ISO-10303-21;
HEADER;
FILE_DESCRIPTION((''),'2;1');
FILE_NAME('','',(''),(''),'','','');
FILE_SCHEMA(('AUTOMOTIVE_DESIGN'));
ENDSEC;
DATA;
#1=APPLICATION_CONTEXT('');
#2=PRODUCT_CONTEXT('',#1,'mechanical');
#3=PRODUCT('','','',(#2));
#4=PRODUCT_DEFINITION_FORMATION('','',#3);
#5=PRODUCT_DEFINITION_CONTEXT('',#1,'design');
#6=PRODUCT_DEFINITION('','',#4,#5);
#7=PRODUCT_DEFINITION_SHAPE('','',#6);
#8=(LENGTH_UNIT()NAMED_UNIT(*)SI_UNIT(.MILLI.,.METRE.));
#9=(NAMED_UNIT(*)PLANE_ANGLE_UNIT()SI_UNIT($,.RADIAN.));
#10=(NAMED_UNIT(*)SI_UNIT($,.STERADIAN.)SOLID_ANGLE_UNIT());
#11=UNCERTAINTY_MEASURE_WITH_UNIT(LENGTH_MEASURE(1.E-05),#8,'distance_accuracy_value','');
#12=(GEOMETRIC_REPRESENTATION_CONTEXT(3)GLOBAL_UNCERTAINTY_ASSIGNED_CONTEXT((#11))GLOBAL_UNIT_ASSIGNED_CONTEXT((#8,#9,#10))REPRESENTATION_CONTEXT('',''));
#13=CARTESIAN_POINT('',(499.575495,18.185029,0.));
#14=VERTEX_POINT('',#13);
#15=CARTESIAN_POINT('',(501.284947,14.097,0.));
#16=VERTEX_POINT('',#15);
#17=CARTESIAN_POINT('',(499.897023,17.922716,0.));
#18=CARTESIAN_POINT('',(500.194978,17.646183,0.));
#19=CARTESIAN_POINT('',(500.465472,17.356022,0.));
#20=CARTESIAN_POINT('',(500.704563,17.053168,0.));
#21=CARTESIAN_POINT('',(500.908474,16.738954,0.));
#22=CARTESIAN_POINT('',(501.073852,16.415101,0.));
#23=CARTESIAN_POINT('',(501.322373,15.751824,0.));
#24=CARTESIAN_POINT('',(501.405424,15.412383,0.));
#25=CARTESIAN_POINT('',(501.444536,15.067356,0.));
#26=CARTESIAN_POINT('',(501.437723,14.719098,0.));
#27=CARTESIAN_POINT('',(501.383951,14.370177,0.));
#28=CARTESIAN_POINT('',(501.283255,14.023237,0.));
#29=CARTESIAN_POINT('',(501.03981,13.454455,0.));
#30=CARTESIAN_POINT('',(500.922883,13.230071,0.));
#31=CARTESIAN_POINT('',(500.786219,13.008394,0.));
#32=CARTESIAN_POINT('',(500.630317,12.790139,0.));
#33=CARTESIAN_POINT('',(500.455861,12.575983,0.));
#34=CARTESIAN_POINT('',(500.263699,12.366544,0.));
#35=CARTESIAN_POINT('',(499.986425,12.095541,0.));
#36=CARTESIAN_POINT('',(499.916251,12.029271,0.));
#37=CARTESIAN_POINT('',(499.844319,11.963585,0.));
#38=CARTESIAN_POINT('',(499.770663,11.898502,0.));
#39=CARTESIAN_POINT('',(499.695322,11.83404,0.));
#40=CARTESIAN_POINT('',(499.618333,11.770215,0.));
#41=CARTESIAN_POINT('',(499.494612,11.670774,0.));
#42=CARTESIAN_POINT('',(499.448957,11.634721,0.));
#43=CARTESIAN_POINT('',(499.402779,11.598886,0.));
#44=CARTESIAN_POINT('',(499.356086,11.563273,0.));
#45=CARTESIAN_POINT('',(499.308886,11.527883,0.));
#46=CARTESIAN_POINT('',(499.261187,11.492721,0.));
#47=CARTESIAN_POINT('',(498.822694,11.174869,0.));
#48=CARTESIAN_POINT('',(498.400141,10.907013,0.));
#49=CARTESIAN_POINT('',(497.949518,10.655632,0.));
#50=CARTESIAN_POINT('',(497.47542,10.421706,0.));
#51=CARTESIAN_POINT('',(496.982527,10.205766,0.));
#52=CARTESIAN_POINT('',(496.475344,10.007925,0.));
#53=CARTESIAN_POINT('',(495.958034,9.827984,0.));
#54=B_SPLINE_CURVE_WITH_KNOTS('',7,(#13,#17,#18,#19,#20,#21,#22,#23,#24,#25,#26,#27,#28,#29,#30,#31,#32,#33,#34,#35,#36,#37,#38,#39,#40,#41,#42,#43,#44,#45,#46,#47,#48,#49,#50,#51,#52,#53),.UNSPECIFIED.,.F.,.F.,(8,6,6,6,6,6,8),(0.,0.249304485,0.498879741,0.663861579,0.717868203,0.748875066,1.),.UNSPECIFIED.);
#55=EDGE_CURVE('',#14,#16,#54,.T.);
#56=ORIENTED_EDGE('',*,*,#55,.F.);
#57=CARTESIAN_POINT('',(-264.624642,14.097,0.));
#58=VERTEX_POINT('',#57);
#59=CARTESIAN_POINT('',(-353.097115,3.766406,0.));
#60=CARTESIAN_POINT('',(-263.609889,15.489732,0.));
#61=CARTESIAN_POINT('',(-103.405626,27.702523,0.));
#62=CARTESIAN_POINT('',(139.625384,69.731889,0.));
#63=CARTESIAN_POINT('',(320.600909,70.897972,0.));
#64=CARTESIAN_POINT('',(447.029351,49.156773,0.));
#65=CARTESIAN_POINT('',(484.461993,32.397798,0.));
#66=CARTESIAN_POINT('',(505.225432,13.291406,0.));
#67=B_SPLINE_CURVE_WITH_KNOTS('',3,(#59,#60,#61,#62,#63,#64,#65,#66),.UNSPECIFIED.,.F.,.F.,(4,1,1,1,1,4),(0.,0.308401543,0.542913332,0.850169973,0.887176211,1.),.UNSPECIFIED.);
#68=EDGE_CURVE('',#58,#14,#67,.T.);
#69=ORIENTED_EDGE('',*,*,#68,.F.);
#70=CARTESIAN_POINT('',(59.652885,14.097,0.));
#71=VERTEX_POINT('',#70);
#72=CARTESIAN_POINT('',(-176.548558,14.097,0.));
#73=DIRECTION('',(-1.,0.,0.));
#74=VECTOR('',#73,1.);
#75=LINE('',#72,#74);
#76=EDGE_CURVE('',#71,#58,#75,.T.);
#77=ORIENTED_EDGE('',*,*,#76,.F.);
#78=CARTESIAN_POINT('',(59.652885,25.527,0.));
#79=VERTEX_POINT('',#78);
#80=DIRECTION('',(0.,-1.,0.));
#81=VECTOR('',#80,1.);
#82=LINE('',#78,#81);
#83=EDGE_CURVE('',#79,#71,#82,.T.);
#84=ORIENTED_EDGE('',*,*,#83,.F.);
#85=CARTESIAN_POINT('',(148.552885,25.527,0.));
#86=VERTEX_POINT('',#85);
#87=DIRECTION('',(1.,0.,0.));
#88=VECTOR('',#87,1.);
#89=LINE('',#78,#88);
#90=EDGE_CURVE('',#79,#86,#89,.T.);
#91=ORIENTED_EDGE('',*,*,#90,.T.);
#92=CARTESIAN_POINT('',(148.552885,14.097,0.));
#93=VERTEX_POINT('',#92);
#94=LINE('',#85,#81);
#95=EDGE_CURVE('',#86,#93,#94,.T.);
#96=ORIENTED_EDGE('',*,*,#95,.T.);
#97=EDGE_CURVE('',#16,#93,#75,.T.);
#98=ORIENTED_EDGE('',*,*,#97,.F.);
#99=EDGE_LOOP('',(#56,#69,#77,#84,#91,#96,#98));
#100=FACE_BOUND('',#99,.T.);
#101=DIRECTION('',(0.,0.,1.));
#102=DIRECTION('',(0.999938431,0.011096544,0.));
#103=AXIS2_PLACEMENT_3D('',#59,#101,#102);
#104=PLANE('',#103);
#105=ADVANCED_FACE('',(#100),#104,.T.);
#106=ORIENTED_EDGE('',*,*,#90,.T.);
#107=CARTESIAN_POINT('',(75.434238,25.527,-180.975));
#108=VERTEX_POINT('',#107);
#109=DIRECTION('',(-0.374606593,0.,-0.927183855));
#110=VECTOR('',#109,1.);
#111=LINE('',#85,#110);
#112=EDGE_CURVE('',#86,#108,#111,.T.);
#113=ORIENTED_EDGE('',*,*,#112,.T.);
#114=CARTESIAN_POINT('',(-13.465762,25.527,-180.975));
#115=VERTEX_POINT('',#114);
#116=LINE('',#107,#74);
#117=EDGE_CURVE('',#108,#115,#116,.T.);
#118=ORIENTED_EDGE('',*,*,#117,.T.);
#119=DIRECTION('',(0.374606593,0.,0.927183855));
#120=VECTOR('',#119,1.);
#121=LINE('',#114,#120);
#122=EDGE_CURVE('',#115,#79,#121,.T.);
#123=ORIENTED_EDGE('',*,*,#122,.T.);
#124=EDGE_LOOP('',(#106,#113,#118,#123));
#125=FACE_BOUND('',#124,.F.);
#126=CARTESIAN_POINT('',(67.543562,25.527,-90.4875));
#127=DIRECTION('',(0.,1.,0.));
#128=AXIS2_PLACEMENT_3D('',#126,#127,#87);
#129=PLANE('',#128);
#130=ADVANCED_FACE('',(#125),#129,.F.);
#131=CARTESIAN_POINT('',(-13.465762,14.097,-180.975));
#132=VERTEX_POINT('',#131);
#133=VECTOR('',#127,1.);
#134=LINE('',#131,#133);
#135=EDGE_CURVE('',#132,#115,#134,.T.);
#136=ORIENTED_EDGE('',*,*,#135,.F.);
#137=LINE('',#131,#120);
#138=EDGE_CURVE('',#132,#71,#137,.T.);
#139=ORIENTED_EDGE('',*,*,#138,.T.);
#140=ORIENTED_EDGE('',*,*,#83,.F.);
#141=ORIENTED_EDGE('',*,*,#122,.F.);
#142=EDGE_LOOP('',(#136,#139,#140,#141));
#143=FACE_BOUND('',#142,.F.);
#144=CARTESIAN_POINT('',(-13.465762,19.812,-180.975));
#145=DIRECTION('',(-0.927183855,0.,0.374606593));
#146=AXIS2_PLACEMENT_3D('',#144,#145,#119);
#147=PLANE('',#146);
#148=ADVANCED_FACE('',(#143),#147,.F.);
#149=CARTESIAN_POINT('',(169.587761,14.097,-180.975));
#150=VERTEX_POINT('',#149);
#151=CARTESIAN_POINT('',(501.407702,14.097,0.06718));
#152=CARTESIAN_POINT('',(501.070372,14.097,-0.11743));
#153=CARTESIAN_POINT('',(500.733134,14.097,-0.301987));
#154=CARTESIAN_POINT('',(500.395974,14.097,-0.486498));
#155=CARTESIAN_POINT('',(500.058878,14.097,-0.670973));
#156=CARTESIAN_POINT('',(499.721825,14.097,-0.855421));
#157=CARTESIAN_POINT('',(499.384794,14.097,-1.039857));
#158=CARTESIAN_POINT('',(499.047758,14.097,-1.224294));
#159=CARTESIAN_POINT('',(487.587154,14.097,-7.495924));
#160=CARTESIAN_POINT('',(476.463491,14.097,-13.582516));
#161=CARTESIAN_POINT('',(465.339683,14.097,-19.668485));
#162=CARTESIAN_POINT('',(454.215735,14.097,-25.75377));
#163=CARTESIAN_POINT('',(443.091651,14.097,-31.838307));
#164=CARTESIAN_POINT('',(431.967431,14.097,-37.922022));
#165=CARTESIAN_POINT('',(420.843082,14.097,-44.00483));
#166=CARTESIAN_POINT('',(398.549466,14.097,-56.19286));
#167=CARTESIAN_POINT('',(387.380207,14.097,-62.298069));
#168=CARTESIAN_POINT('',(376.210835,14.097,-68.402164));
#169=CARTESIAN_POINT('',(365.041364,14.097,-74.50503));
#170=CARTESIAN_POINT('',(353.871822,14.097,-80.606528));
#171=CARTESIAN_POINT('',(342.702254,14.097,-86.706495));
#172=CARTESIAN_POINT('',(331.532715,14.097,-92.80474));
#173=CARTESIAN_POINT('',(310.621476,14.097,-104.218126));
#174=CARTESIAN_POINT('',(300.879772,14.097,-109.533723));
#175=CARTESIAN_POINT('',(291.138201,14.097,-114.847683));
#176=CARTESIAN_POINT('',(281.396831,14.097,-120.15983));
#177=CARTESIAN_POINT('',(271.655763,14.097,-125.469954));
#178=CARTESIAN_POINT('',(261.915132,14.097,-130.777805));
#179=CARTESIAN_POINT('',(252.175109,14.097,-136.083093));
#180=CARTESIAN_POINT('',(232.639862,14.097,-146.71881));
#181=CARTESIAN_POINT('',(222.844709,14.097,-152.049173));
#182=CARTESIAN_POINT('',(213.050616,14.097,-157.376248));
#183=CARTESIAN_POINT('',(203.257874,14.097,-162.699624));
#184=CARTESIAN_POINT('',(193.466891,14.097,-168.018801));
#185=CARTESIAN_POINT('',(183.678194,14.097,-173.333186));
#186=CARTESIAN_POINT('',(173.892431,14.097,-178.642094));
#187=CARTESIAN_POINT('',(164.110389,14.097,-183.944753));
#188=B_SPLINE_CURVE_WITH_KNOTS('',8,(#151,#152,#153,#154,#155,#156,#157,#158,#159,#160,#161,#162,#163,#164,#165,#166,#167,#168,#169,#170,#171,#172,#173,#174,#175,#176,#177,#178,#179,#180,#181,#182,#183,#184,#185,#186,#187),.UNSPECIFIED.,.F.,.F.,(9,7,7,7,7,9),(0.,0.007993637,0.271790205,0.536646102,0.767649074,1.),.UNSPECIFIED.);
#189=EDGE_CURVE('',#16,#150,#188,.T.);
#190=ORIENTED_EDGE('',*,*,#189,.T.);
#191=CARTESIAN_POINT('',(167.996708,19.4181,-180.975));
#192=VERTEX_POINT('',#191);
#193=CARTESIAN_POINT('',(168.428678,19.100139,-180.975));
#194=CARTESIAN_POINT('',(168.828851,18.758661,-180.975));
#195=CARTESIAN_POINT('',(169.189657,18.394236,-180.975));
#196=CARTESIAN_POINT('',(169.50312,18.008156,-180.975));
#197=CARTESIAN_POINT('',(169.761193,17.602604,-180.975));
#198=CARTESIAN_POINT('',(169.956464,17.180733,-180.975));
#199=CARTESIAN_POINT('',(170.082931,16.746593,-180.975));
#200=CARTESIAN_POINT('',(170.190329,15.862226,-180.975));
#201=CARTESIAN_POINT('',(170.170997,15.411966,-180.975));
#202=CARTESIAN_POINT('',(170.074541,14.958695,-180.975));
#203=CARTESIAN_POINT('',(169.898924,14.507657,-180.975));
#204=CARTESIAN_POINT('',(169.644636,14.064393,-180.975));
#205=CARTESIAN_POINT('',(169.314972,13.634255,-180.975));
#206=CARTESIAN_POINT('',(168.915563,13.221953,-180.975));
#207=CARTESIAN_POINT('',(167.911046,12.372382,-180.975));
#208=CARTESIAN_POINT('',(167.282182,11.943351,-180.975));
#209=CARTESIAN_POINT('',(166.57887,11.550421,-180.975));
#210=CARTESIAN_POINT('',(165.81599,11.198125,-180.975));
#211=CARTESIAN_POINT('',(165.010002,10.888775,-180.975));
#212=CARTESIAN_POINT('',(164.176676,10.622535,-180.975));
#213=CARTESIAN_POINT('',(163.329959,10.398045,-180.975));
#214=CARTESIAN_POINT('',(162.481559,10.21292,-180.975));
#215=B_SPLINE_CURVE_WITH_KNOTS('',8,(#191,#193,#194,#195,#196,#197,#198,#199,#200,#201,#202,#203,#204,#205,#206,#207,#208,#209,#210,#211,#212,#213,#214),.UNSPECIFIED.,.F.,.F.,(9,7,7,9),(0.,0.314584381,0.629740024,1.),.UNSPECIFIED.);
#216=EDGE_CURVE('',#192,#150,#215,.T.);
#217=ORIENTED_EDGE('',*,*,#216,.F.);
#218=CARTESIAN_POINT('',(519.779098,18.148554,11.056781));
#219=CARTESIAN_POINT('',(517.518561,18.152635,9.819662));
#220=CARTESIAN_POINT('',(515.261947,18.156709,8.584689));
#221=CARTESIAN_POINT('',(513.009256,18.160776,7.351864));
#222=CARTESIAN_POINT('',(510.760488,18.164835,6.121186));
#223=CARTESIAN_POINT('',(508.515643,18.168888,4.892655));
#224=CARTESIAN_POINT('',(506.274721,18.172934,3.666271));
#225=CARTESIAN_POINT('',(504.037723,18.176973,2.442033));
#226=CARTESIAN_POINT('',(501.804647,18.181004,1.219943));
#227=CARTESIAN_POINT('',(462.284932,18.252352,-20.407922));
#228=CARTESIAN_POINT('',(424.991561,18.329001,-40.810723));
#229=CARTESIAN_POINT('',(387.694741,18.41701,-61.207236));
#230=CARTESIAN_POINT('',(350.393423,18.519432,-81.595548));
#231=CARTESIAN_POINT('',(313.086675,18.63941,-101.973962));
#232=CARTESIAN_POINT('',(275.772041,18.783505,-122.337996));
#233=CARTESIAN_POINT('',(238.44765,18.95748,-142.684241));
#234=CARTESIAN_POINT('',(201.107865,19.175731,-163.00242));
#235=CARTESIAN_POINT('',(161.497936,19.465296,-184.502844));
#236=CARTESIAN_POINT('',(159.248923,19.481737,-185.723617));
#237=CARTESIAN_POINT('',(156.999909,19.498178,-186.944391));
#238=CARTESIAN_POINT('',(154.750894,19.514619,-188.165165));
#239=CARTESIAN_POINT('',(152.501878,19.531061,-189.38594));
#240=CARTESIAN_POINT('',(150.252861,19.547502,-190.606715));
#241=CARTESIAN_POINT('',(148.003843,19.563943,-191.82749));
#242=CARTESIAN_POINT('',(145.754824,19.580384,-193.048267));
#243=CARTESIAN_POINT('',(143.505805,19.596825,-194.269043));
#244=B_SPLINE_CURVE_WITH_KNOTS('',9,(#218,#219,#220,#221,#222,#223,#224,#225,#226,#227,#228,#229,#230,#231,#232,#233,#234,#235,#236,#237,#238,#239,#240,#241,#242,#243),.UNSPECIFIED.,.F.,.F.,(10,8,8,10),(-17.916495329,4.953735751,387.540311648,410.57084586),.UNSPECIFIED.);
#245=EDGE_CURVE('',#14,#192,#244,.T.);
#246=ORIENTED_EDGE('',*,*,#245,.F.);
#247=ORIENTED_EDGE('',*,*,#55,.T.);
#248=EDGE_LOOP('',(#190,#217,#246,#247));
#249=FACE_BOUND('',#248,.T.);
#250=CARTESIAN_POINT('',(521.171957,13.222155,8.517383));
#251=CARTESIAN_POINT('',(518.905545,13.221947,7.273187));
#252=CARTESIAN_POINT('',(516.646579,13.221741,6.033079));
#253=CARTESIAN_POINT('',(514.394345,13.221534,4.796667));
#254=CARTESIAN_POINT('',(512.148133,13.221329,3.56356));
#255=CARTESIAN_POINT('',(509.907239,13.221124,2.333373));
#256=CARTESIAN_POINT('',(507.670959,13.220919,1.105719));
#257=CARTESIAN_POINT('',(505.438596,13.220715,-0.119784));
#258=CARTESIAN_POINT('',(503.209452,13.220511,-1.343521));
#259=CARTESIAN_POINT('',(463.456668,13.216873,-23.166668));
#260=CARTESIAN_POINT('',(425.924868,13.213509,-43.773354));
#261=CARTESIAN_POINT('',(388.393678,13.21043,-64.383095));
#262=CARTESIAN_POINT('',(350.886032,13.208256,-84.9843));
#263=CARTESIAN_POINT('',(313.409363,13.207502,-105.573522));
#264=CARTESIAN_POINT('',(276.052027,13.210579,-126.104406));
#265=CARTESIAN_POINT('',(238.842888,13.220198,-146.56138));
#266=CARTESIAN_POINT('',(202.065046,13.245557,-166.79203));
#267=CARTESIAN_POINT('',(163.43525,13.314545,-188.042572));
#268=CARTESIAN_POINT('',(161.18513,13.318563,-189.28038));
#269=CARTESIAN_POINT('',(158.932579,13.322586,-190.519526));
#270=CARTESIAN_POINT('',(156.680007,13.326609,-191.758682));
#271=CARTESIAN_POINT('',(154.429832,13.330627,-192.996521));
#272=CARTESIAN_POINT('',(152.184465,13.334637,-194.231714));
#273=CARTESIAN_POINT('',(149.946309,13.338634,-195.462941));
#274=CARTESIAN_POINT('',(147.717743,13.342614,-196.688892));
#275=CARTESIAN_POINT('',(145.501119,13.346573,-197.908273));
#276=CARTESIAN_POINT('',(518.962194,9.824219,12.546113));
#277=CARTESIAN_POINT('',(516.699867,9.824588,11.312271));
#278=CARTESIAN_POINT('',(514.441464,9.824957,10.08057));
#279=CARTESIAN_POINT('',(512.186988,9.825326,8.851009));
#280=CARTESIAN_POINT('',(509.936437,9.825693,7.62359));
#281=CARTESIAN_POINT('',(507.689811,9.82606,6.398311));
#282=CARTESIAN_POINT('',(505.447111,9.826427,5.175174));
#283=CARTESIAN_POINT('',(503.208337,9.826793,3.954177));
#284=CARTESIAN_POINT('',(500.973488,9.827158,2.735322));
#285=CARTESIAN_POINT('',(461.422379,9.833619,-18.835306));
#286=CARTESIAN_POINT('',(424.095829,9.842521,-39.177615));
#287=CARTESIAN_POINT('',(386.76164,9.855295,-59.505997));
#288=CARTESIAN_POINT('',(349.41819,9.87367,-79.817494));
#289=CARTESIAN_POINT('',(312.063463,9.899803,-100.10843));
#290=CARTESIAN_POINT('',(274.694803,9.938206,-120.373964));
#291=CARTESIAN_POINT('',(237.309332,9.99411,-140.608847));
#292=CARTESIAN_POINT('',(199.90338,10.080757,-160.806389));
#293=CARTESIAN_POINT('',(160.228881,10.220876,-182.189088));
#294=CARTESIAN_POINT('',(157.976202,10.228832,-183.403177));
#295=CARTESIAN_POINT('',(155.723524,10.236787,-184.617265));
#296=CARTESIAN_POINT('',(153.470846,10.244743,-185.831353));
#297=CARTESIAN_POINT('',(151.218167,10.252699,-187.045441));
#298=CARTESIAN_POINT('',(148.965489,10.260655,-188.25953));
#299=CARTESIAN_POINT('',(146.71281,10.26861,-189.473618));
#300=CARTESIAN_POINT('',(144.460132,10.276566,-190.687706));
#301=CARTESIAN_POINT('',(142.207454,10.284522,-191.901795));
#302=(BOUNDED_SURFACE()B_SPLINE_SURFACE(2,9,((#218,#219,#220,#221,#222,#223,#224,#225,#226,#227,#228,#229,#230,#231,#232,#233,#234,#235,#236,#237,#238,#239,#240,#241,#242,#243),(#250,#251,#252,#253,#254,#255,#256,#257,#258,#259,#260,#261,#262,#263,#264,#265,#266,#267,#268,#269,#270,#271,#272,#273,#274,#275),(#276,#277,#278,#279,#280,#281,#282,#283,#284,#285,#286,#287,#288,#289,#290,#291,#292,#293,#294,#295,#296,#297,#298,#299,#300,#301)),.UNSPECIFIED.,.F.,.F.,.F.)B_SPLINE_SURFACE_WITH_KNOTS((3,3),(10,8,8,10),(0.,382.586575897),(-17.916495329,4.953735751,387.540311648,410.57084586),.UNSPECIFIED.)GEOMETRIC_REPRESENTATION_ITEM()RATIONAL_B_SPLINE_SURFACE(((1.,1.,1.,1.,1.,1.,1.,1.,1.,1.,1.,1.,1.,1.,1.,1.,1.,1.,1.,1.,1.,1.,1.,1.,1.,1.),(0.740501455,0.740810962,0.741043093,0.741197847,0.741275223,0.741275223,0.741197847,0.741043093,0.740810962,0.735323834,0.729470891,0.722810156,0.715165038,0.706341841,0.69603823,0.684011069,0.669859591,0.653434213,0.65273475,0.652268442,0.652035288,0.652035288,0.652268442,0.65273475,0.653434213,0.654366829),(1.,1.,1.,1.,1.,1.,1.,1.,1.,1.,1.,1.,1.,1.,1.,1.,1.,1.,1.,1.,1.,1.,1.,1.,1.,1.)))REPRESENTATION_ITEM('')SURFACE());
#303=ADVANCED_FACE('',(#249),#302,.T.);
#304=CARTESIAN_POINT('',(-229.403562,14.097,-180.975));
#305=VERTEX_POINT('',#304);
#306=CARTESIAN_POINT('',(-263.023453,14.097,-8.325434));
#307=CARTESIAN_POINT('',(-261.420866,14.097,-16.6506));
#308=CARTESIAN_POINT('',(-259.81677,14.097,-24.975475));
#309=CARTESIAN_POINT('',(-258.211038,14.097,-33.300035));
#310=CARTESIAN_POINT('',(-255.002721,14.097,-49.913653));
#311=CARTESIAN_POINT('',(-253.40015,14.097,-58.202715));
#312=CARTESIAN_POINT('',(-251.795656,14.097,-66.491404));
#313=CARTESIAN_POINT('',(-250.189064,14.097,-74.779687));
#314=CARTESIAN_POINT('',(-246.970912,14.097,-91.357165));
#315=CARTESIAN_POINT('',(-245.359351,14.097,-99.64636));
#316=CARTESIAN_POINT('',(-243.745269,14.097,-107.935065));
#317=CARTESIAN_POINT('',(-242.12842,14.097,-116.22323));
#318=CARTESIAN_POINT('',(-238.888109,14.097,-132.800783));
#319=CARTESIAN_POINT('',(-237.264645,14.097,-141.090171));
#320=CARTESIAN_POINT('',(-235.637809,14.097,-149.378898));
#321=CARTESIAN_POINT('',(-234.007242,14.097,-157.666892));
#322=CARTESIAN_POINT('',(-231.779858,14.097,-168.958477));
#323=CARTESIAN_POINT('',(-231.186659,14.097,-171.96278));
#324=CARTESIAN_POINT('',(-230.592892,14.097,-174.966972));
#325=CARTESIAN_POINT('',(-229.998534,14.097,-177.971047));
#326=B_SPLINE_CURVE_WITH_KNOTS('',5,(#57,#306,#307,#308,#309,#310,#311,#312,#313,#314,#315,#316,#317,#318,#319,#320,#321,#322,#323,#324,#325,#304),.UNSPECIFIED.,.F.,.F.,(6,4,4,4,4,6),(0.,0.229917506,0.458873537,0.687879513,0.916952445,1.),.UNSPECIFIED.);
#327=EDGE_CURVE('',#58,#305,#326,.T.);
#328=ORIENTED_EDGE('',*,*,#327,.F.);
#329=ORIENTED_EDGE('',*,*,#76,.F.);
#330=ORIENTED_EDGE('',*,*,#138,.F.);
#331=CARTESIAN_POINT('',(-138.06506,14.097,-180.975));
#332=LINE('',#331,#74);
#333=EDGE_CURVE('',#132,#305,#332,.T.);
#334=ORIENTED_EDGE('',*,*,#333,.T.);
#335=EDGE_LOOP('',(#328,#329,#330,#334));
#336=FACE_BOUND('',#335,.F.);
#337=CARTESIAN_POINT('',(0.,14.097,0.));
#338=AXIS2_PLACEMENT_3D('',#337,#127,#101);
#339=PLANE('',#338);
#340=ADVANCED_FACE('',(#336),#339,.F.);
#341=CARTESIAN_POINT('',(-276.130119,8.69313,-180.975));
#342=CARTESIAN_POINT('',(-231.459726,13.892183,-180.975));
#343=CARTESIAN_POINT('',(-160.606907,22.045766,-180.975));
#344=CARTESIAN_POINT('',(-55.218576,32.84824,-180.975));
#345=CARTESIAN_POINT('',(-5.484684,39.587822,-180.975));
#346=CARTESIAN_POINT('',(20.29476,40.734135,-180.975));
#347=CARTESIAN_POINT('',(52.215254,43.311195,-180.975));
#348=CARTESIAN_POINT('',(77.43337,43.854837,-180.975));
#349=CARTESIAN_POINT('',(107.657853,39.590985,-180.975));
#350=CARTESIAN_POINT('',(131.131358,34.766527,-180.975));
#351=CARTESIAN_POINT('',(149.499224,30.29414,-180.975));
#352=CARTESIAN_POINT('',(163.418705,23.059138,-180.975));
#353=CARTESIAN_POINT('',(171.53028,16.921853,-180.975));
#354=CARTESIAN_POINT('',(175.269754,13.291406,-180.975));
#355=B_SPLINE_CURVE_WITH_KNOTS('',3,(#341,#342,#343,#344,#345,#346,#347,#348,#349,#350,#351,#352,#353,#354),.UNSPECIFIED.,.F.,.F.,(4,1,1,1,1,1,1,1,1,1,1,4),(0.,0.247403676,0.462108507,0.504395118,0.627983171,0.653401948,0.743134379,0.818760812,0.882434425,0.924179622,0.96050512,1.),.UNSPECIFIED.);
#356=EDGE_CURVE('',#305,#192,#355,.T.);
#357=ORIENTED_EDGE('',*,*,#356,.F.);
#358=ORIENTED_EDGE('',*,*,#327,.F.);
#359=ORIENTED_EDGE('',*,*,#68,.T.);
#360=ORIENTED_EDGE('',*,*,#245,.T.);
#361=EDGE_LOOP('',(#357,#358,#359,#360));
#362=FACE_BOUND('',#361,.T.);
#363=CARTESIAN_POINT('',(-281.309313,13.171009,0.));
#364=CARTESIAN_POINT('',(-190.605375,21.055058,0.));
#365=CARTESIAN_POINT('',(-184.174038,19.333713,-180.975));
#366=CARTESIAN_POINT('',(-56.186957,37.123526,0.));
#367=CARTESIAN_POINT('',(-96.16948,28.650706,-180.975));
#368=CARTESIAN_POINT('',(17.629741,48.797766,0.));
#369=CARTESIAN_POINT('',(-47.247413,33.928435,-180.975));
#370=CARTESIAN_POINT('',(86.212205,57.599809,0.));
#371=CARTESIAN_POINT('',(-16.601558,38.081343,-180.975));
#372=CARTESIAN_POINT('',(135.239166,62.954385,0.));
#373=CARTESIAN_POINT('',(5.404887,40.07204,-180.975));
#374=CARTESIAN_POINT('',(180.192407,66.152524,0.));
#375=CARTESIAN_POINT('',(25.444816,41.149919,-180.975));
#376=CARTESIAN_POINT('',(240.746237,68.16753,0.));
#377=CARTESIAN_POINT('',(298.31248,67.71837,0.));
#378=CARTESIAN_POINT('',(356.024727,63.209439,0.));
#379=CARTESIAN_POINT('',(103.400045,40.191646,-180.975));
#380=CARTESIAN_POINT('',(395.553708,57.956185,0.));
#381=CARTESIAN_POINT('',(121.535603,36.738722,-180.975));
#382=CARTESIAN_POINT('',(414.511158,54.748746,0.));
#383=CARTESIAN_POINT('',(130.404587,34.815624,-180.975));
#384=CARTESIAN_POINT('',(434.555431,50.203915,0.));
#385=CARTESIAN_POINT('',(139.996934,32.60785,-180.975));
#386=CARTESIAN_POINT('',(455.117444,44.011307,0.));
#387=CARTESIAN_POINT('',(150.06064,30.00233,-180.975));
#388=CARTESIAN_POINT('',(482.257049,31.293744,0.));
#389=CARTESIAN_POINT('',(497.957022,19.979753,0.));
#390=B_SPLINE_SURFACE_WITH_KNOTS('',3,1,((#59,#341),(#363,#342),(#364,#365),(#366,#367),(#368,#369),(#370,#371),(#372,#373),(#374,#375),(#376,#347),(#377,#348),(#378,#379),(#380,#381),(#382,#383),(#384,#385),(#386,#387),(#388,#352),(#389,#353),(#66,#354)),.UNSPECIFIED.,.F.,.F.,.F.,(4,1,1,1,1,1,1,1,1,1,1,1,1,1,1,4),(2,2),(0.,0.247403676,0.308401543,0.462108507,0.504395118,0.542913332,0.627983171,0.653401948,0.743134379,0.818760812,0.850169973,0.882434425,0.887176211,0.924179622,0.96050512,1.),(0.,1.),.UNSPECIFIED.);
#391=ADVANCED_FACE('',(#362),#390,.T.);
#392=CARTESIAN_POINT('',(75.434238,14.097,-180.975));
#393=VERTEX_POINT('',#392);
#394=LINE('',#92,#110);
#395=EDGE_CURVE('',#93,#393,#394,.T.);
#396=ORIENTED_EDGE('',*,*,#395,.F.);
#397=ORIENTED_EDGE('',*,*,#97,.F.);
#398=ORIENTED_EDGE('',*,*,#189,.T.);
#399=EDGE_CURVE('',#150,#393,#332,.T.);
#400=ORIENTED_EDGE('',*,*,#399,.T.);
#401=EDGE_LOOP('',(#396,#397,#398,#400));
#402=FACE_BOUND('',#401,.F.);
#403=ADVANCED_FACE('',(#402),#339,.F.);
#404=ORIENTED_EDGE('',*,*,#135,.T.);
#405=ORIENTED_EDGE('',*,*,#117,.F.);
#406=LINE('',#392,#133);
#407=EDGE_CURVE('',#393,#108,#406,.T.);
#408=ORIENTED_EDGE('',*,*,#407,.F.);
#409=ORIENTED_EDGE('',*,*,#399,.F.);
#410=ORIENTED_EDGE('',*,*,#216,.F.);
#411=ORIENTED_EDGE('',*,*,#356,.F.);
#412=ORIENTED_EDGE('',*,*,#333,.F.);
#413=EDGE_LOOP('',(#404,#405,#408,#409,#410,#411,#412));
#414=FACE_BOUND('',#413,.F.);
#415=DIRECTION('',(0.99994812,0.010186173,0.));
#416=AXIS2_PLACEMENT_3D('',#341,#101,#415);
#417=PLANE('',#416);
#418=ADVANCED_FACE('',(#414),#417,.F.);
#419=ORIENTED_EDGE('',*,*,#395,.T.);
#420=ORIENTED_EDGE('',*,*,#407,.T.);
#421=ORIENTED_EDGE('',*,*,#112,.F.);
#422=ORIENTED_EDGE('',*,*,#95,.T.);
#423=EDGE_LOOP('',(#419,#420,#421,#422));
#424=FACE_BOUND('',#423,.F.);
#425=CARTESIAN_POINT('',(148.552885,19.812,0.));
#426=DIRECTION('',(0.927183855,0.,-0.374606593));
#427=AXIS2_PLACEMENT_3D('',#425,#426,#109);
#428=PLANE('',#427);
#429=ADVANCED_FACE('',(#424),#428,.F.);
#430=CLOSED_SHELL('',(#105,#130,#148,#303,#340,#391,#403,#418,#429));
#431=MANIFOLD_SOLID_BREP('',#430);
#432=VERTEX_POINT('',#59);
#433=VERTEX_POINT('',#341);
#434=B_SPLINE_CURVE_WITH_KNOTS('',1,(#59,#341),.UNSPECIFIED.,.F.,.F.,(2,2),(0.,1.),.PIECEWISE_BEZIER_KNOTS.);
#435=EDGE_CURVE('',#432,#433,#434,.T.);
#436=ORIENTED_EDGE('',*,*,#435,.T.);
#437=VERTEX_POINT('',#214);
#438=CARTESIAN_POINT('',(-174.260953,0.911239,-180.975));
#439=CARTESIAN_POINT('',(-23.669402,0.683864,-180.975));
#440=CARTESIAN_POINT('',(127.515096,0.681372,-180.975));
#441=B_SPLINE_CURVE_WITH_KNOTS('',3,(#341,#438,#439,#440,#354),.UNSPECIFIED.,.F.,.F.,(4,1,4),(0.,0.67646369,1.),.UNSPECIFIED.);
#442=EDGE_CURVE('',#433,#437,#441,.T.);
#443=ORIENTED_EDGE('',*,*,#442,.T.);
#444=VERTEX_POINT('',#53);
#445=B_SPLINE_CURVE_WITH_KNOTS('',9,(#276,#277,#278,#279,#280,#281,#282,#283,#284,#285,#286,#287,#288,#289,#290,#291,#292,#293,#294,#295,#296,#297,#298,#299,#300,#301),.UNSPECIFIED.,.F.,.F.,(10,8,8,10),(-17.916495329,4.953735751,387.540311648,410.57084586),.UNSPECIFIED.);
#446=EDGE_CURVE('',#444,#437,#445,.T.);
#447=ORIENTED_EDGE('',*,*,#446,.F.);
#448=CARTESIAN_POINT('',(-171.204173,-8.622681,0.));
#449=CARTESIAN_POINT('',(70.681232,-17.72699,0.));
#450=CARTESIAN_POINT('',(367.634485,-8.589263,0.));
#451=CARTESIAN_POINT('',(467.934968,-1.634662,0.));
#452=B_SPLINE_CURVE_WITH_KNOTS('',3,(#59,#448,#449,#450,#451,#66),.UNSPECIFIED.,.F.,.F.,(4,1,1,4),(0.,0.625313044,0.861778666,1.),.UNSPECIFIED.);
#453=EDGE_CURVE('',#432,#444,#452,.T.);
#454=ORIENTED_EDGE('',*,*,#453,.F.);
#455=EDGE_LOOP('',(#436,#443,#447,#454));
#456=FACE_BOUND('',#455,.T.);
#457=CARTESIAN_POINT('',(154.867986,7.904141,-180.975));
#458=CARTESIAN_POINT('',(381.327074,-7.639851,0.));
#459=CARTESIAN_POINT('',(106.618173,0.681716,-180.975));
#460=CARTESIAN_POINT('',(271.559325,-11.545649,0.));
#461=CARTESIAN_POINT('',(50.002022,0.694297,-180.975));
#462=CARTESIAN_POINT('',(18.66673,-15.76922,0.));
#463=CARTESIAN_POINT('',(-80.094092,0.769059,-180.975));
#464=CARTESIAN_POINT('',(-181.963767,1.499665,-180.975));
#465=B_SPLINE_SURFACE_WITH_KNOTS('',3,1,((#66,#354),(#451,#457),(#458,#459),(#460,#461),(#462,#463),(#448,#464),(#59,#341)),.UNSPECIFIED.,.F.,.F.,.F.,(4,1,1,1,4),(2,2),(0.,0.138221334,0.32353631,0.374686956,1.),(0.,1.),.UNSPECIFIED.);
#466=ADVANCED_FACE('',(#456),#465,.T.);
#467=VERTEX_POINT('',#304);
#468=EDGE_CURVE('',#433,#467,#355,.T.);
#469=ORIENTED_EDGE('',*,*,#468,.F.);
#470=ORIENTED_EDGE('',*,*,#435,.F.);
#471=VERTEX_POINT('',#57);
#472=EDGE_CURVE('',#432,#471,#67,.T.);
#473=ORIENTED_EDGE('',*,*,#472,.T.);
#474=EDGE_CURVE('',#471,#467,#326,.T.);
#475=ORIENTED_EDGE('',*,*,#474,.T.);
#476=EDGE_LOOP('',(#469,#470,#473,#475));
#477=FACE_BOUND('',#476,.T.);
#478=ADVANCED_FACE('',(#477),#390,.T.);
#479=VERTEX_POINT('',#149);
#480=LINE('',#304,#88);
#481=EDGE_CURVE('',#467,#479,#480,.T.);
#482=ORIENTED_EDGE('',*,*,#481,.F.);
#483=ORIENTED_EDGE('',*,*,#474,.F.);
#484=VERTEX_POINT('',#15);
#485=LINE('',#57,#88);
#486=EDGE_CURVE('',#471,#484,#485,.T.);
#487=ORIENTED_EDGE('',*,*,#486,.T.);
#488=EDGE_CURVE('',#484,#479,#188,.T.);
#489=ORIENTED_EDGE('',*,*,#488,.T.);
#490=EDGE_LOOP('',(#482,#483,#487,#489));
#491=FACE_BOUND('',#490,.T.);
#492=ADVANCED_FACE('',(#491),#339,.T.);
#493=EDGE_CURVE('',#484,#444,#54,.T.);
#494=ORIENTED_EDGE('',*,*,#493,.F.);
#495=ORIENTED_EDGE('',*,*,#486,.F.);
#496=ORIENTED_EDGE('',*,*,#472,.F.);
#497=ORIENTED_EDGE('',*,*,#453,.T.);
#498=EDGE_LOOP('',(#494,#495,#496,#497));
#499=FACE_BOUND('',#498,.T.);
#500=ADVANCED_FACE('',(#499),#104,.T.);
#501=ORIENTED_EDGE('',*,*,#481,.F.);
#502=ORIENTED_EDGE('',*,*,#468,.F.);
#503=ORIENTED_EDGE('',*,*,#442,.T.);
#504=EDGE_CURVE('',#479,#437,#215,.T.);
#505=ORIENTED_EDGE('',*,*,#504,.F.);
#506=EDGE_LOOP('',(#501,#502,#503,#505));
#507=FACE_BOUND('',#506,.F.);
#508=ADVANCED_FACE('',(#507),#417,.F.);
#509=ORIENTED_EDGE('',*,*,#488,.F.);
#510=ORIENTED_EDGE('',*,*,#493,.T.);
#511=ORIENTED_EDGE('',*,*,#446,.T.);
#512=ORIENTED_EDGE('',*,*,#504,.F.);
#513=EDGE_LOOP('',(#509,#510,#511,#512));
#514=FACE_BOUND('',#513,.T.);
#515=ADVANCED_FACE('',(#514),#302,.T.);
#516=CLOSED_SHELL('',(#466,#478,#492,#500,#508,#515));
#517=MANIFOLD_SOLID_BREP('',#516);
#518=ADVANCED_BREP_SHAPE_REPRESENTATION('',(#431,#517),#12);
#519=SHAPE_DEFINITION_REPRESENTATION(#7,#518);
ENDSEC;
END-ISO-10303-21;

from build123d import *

# Parameters (mm, degrees)
FILLET1_R          = 6.35
CUT_EXTRUDE1_DEPTH = 5.715


with BuildPart() as part:
    # Sketch1 → Loft1 section 0
    with BuildSketch(Plane.XY):
        with BuildLine():
            add(Edge.make_bspline(
                [(-353.097115344, 3.76640622), (-263.60988857, 15.489732087), (-103.405625954, 27.702523148), (139.625383809, 69.731889132), (320.600909148, 70.897971745), (447.029350736, 49.156772515), (484.461992977, 32.39779841), (505.225432444, 13.29140622)],
                knots=[0, 0, 0, 0, 0.308401543, 0.542913332, 0.850169973, 0.887176211, 1, 1, 1, 1], degree=3))
            add(Edge.make_bspline(
                [(-353.097115344, 3.76640622), (-171.204173065, -8.622681299), (70.681231732, -17.726989966), (367.634485174, -8.589262826), (467.934967897, -1.634661846), (505.225432444, 13.29140622)],
                knots=[0, 0, 0, 0, 0.625313044, 0.861778666, 1, 1, 1, 1], degree=3))
        make_face()
    # Sketch2 → Loft1 section 1
    with BuildSketch(Plane.XY.offset(-180.975)):
        with BuildLine():
            add(Edge.make_bspline(
                [(-276.130119323, 8.693130358), (-231.459725957, 13.892182525), (-160.606907467, 22.045765928), (-55.21857633, 32.848239562), (-5.484684229, 39.5878223), (20.294760191, 40.734135472), (52.215253795, 43.311195196), (77.433370096, 43.854837121), (107.657853328, 39.590984865), (131.131357877, 34.766526999), (149.499224412, 30.294140301), (163.418705178, 23.059137739), (171.530279946, 16.921852673), (175.269753602, 13.29140622)],
                knots=[0, 0, 0, 0, 0.247403676, 0.462108507, 0.504395118, 0.627983171, 0.653401948, 0.743134379, 0.818760812, 0.882434425, 0.924179622, 0.96050512, 1, 1, 1, 1], degree=3))
            add(Edge.make_bspline(
                [(-276.130119323, 8.693130358), (-174.260953063, 0.911239157), (-23.669401798, 0.683864032), (127.515095646, 0.681371654), (175.269753602, 13.29140622)],
                knots=[0, 0, 0, 0, 0.67646369, 1, 1, 1, 1], degree=3))
        make_face()
    loft()

    # Fillet1
    fillet1_edges = [part.edges().sort_by_distance(p)[0] for p in [
        (340.247593023, 13.29140622, -90.4875),
    ]]
    fillet(fillet1_edges, radius=FILLET1_R)

    # Sketch7 → Cut-Extrude1 (cut, symmetric)
    with BuildSketch(Plane(origin=(0, 19.812, 0), x_dir=(1, 0, 0), z_dir=(0, 1, 0))):
        Polygon((148.552884656, 0), (75.434238435, 180.975), (-13.465761565, 180.975), (59.652884656, 0), align=None)
    extrude(amount=CUT_EXTRUDE1_DEPTH, both=True, mode=Mode.SUBTRACT)


with BuildPart() as body_2:
    # Split1: the piece on the far side of the plane
    add(part.part)
    split(bisect_by=Plane.ZX.offset(14.097), keep=Keep.BOTTOM)


with BuildPart() as part_1:
    add(part.part)

    # Split1
    split(bisect_by=Plane.ZX.offset(14.097), keep=Keep.TOP)


solid = Compound([body_2.part, part_1.part])
